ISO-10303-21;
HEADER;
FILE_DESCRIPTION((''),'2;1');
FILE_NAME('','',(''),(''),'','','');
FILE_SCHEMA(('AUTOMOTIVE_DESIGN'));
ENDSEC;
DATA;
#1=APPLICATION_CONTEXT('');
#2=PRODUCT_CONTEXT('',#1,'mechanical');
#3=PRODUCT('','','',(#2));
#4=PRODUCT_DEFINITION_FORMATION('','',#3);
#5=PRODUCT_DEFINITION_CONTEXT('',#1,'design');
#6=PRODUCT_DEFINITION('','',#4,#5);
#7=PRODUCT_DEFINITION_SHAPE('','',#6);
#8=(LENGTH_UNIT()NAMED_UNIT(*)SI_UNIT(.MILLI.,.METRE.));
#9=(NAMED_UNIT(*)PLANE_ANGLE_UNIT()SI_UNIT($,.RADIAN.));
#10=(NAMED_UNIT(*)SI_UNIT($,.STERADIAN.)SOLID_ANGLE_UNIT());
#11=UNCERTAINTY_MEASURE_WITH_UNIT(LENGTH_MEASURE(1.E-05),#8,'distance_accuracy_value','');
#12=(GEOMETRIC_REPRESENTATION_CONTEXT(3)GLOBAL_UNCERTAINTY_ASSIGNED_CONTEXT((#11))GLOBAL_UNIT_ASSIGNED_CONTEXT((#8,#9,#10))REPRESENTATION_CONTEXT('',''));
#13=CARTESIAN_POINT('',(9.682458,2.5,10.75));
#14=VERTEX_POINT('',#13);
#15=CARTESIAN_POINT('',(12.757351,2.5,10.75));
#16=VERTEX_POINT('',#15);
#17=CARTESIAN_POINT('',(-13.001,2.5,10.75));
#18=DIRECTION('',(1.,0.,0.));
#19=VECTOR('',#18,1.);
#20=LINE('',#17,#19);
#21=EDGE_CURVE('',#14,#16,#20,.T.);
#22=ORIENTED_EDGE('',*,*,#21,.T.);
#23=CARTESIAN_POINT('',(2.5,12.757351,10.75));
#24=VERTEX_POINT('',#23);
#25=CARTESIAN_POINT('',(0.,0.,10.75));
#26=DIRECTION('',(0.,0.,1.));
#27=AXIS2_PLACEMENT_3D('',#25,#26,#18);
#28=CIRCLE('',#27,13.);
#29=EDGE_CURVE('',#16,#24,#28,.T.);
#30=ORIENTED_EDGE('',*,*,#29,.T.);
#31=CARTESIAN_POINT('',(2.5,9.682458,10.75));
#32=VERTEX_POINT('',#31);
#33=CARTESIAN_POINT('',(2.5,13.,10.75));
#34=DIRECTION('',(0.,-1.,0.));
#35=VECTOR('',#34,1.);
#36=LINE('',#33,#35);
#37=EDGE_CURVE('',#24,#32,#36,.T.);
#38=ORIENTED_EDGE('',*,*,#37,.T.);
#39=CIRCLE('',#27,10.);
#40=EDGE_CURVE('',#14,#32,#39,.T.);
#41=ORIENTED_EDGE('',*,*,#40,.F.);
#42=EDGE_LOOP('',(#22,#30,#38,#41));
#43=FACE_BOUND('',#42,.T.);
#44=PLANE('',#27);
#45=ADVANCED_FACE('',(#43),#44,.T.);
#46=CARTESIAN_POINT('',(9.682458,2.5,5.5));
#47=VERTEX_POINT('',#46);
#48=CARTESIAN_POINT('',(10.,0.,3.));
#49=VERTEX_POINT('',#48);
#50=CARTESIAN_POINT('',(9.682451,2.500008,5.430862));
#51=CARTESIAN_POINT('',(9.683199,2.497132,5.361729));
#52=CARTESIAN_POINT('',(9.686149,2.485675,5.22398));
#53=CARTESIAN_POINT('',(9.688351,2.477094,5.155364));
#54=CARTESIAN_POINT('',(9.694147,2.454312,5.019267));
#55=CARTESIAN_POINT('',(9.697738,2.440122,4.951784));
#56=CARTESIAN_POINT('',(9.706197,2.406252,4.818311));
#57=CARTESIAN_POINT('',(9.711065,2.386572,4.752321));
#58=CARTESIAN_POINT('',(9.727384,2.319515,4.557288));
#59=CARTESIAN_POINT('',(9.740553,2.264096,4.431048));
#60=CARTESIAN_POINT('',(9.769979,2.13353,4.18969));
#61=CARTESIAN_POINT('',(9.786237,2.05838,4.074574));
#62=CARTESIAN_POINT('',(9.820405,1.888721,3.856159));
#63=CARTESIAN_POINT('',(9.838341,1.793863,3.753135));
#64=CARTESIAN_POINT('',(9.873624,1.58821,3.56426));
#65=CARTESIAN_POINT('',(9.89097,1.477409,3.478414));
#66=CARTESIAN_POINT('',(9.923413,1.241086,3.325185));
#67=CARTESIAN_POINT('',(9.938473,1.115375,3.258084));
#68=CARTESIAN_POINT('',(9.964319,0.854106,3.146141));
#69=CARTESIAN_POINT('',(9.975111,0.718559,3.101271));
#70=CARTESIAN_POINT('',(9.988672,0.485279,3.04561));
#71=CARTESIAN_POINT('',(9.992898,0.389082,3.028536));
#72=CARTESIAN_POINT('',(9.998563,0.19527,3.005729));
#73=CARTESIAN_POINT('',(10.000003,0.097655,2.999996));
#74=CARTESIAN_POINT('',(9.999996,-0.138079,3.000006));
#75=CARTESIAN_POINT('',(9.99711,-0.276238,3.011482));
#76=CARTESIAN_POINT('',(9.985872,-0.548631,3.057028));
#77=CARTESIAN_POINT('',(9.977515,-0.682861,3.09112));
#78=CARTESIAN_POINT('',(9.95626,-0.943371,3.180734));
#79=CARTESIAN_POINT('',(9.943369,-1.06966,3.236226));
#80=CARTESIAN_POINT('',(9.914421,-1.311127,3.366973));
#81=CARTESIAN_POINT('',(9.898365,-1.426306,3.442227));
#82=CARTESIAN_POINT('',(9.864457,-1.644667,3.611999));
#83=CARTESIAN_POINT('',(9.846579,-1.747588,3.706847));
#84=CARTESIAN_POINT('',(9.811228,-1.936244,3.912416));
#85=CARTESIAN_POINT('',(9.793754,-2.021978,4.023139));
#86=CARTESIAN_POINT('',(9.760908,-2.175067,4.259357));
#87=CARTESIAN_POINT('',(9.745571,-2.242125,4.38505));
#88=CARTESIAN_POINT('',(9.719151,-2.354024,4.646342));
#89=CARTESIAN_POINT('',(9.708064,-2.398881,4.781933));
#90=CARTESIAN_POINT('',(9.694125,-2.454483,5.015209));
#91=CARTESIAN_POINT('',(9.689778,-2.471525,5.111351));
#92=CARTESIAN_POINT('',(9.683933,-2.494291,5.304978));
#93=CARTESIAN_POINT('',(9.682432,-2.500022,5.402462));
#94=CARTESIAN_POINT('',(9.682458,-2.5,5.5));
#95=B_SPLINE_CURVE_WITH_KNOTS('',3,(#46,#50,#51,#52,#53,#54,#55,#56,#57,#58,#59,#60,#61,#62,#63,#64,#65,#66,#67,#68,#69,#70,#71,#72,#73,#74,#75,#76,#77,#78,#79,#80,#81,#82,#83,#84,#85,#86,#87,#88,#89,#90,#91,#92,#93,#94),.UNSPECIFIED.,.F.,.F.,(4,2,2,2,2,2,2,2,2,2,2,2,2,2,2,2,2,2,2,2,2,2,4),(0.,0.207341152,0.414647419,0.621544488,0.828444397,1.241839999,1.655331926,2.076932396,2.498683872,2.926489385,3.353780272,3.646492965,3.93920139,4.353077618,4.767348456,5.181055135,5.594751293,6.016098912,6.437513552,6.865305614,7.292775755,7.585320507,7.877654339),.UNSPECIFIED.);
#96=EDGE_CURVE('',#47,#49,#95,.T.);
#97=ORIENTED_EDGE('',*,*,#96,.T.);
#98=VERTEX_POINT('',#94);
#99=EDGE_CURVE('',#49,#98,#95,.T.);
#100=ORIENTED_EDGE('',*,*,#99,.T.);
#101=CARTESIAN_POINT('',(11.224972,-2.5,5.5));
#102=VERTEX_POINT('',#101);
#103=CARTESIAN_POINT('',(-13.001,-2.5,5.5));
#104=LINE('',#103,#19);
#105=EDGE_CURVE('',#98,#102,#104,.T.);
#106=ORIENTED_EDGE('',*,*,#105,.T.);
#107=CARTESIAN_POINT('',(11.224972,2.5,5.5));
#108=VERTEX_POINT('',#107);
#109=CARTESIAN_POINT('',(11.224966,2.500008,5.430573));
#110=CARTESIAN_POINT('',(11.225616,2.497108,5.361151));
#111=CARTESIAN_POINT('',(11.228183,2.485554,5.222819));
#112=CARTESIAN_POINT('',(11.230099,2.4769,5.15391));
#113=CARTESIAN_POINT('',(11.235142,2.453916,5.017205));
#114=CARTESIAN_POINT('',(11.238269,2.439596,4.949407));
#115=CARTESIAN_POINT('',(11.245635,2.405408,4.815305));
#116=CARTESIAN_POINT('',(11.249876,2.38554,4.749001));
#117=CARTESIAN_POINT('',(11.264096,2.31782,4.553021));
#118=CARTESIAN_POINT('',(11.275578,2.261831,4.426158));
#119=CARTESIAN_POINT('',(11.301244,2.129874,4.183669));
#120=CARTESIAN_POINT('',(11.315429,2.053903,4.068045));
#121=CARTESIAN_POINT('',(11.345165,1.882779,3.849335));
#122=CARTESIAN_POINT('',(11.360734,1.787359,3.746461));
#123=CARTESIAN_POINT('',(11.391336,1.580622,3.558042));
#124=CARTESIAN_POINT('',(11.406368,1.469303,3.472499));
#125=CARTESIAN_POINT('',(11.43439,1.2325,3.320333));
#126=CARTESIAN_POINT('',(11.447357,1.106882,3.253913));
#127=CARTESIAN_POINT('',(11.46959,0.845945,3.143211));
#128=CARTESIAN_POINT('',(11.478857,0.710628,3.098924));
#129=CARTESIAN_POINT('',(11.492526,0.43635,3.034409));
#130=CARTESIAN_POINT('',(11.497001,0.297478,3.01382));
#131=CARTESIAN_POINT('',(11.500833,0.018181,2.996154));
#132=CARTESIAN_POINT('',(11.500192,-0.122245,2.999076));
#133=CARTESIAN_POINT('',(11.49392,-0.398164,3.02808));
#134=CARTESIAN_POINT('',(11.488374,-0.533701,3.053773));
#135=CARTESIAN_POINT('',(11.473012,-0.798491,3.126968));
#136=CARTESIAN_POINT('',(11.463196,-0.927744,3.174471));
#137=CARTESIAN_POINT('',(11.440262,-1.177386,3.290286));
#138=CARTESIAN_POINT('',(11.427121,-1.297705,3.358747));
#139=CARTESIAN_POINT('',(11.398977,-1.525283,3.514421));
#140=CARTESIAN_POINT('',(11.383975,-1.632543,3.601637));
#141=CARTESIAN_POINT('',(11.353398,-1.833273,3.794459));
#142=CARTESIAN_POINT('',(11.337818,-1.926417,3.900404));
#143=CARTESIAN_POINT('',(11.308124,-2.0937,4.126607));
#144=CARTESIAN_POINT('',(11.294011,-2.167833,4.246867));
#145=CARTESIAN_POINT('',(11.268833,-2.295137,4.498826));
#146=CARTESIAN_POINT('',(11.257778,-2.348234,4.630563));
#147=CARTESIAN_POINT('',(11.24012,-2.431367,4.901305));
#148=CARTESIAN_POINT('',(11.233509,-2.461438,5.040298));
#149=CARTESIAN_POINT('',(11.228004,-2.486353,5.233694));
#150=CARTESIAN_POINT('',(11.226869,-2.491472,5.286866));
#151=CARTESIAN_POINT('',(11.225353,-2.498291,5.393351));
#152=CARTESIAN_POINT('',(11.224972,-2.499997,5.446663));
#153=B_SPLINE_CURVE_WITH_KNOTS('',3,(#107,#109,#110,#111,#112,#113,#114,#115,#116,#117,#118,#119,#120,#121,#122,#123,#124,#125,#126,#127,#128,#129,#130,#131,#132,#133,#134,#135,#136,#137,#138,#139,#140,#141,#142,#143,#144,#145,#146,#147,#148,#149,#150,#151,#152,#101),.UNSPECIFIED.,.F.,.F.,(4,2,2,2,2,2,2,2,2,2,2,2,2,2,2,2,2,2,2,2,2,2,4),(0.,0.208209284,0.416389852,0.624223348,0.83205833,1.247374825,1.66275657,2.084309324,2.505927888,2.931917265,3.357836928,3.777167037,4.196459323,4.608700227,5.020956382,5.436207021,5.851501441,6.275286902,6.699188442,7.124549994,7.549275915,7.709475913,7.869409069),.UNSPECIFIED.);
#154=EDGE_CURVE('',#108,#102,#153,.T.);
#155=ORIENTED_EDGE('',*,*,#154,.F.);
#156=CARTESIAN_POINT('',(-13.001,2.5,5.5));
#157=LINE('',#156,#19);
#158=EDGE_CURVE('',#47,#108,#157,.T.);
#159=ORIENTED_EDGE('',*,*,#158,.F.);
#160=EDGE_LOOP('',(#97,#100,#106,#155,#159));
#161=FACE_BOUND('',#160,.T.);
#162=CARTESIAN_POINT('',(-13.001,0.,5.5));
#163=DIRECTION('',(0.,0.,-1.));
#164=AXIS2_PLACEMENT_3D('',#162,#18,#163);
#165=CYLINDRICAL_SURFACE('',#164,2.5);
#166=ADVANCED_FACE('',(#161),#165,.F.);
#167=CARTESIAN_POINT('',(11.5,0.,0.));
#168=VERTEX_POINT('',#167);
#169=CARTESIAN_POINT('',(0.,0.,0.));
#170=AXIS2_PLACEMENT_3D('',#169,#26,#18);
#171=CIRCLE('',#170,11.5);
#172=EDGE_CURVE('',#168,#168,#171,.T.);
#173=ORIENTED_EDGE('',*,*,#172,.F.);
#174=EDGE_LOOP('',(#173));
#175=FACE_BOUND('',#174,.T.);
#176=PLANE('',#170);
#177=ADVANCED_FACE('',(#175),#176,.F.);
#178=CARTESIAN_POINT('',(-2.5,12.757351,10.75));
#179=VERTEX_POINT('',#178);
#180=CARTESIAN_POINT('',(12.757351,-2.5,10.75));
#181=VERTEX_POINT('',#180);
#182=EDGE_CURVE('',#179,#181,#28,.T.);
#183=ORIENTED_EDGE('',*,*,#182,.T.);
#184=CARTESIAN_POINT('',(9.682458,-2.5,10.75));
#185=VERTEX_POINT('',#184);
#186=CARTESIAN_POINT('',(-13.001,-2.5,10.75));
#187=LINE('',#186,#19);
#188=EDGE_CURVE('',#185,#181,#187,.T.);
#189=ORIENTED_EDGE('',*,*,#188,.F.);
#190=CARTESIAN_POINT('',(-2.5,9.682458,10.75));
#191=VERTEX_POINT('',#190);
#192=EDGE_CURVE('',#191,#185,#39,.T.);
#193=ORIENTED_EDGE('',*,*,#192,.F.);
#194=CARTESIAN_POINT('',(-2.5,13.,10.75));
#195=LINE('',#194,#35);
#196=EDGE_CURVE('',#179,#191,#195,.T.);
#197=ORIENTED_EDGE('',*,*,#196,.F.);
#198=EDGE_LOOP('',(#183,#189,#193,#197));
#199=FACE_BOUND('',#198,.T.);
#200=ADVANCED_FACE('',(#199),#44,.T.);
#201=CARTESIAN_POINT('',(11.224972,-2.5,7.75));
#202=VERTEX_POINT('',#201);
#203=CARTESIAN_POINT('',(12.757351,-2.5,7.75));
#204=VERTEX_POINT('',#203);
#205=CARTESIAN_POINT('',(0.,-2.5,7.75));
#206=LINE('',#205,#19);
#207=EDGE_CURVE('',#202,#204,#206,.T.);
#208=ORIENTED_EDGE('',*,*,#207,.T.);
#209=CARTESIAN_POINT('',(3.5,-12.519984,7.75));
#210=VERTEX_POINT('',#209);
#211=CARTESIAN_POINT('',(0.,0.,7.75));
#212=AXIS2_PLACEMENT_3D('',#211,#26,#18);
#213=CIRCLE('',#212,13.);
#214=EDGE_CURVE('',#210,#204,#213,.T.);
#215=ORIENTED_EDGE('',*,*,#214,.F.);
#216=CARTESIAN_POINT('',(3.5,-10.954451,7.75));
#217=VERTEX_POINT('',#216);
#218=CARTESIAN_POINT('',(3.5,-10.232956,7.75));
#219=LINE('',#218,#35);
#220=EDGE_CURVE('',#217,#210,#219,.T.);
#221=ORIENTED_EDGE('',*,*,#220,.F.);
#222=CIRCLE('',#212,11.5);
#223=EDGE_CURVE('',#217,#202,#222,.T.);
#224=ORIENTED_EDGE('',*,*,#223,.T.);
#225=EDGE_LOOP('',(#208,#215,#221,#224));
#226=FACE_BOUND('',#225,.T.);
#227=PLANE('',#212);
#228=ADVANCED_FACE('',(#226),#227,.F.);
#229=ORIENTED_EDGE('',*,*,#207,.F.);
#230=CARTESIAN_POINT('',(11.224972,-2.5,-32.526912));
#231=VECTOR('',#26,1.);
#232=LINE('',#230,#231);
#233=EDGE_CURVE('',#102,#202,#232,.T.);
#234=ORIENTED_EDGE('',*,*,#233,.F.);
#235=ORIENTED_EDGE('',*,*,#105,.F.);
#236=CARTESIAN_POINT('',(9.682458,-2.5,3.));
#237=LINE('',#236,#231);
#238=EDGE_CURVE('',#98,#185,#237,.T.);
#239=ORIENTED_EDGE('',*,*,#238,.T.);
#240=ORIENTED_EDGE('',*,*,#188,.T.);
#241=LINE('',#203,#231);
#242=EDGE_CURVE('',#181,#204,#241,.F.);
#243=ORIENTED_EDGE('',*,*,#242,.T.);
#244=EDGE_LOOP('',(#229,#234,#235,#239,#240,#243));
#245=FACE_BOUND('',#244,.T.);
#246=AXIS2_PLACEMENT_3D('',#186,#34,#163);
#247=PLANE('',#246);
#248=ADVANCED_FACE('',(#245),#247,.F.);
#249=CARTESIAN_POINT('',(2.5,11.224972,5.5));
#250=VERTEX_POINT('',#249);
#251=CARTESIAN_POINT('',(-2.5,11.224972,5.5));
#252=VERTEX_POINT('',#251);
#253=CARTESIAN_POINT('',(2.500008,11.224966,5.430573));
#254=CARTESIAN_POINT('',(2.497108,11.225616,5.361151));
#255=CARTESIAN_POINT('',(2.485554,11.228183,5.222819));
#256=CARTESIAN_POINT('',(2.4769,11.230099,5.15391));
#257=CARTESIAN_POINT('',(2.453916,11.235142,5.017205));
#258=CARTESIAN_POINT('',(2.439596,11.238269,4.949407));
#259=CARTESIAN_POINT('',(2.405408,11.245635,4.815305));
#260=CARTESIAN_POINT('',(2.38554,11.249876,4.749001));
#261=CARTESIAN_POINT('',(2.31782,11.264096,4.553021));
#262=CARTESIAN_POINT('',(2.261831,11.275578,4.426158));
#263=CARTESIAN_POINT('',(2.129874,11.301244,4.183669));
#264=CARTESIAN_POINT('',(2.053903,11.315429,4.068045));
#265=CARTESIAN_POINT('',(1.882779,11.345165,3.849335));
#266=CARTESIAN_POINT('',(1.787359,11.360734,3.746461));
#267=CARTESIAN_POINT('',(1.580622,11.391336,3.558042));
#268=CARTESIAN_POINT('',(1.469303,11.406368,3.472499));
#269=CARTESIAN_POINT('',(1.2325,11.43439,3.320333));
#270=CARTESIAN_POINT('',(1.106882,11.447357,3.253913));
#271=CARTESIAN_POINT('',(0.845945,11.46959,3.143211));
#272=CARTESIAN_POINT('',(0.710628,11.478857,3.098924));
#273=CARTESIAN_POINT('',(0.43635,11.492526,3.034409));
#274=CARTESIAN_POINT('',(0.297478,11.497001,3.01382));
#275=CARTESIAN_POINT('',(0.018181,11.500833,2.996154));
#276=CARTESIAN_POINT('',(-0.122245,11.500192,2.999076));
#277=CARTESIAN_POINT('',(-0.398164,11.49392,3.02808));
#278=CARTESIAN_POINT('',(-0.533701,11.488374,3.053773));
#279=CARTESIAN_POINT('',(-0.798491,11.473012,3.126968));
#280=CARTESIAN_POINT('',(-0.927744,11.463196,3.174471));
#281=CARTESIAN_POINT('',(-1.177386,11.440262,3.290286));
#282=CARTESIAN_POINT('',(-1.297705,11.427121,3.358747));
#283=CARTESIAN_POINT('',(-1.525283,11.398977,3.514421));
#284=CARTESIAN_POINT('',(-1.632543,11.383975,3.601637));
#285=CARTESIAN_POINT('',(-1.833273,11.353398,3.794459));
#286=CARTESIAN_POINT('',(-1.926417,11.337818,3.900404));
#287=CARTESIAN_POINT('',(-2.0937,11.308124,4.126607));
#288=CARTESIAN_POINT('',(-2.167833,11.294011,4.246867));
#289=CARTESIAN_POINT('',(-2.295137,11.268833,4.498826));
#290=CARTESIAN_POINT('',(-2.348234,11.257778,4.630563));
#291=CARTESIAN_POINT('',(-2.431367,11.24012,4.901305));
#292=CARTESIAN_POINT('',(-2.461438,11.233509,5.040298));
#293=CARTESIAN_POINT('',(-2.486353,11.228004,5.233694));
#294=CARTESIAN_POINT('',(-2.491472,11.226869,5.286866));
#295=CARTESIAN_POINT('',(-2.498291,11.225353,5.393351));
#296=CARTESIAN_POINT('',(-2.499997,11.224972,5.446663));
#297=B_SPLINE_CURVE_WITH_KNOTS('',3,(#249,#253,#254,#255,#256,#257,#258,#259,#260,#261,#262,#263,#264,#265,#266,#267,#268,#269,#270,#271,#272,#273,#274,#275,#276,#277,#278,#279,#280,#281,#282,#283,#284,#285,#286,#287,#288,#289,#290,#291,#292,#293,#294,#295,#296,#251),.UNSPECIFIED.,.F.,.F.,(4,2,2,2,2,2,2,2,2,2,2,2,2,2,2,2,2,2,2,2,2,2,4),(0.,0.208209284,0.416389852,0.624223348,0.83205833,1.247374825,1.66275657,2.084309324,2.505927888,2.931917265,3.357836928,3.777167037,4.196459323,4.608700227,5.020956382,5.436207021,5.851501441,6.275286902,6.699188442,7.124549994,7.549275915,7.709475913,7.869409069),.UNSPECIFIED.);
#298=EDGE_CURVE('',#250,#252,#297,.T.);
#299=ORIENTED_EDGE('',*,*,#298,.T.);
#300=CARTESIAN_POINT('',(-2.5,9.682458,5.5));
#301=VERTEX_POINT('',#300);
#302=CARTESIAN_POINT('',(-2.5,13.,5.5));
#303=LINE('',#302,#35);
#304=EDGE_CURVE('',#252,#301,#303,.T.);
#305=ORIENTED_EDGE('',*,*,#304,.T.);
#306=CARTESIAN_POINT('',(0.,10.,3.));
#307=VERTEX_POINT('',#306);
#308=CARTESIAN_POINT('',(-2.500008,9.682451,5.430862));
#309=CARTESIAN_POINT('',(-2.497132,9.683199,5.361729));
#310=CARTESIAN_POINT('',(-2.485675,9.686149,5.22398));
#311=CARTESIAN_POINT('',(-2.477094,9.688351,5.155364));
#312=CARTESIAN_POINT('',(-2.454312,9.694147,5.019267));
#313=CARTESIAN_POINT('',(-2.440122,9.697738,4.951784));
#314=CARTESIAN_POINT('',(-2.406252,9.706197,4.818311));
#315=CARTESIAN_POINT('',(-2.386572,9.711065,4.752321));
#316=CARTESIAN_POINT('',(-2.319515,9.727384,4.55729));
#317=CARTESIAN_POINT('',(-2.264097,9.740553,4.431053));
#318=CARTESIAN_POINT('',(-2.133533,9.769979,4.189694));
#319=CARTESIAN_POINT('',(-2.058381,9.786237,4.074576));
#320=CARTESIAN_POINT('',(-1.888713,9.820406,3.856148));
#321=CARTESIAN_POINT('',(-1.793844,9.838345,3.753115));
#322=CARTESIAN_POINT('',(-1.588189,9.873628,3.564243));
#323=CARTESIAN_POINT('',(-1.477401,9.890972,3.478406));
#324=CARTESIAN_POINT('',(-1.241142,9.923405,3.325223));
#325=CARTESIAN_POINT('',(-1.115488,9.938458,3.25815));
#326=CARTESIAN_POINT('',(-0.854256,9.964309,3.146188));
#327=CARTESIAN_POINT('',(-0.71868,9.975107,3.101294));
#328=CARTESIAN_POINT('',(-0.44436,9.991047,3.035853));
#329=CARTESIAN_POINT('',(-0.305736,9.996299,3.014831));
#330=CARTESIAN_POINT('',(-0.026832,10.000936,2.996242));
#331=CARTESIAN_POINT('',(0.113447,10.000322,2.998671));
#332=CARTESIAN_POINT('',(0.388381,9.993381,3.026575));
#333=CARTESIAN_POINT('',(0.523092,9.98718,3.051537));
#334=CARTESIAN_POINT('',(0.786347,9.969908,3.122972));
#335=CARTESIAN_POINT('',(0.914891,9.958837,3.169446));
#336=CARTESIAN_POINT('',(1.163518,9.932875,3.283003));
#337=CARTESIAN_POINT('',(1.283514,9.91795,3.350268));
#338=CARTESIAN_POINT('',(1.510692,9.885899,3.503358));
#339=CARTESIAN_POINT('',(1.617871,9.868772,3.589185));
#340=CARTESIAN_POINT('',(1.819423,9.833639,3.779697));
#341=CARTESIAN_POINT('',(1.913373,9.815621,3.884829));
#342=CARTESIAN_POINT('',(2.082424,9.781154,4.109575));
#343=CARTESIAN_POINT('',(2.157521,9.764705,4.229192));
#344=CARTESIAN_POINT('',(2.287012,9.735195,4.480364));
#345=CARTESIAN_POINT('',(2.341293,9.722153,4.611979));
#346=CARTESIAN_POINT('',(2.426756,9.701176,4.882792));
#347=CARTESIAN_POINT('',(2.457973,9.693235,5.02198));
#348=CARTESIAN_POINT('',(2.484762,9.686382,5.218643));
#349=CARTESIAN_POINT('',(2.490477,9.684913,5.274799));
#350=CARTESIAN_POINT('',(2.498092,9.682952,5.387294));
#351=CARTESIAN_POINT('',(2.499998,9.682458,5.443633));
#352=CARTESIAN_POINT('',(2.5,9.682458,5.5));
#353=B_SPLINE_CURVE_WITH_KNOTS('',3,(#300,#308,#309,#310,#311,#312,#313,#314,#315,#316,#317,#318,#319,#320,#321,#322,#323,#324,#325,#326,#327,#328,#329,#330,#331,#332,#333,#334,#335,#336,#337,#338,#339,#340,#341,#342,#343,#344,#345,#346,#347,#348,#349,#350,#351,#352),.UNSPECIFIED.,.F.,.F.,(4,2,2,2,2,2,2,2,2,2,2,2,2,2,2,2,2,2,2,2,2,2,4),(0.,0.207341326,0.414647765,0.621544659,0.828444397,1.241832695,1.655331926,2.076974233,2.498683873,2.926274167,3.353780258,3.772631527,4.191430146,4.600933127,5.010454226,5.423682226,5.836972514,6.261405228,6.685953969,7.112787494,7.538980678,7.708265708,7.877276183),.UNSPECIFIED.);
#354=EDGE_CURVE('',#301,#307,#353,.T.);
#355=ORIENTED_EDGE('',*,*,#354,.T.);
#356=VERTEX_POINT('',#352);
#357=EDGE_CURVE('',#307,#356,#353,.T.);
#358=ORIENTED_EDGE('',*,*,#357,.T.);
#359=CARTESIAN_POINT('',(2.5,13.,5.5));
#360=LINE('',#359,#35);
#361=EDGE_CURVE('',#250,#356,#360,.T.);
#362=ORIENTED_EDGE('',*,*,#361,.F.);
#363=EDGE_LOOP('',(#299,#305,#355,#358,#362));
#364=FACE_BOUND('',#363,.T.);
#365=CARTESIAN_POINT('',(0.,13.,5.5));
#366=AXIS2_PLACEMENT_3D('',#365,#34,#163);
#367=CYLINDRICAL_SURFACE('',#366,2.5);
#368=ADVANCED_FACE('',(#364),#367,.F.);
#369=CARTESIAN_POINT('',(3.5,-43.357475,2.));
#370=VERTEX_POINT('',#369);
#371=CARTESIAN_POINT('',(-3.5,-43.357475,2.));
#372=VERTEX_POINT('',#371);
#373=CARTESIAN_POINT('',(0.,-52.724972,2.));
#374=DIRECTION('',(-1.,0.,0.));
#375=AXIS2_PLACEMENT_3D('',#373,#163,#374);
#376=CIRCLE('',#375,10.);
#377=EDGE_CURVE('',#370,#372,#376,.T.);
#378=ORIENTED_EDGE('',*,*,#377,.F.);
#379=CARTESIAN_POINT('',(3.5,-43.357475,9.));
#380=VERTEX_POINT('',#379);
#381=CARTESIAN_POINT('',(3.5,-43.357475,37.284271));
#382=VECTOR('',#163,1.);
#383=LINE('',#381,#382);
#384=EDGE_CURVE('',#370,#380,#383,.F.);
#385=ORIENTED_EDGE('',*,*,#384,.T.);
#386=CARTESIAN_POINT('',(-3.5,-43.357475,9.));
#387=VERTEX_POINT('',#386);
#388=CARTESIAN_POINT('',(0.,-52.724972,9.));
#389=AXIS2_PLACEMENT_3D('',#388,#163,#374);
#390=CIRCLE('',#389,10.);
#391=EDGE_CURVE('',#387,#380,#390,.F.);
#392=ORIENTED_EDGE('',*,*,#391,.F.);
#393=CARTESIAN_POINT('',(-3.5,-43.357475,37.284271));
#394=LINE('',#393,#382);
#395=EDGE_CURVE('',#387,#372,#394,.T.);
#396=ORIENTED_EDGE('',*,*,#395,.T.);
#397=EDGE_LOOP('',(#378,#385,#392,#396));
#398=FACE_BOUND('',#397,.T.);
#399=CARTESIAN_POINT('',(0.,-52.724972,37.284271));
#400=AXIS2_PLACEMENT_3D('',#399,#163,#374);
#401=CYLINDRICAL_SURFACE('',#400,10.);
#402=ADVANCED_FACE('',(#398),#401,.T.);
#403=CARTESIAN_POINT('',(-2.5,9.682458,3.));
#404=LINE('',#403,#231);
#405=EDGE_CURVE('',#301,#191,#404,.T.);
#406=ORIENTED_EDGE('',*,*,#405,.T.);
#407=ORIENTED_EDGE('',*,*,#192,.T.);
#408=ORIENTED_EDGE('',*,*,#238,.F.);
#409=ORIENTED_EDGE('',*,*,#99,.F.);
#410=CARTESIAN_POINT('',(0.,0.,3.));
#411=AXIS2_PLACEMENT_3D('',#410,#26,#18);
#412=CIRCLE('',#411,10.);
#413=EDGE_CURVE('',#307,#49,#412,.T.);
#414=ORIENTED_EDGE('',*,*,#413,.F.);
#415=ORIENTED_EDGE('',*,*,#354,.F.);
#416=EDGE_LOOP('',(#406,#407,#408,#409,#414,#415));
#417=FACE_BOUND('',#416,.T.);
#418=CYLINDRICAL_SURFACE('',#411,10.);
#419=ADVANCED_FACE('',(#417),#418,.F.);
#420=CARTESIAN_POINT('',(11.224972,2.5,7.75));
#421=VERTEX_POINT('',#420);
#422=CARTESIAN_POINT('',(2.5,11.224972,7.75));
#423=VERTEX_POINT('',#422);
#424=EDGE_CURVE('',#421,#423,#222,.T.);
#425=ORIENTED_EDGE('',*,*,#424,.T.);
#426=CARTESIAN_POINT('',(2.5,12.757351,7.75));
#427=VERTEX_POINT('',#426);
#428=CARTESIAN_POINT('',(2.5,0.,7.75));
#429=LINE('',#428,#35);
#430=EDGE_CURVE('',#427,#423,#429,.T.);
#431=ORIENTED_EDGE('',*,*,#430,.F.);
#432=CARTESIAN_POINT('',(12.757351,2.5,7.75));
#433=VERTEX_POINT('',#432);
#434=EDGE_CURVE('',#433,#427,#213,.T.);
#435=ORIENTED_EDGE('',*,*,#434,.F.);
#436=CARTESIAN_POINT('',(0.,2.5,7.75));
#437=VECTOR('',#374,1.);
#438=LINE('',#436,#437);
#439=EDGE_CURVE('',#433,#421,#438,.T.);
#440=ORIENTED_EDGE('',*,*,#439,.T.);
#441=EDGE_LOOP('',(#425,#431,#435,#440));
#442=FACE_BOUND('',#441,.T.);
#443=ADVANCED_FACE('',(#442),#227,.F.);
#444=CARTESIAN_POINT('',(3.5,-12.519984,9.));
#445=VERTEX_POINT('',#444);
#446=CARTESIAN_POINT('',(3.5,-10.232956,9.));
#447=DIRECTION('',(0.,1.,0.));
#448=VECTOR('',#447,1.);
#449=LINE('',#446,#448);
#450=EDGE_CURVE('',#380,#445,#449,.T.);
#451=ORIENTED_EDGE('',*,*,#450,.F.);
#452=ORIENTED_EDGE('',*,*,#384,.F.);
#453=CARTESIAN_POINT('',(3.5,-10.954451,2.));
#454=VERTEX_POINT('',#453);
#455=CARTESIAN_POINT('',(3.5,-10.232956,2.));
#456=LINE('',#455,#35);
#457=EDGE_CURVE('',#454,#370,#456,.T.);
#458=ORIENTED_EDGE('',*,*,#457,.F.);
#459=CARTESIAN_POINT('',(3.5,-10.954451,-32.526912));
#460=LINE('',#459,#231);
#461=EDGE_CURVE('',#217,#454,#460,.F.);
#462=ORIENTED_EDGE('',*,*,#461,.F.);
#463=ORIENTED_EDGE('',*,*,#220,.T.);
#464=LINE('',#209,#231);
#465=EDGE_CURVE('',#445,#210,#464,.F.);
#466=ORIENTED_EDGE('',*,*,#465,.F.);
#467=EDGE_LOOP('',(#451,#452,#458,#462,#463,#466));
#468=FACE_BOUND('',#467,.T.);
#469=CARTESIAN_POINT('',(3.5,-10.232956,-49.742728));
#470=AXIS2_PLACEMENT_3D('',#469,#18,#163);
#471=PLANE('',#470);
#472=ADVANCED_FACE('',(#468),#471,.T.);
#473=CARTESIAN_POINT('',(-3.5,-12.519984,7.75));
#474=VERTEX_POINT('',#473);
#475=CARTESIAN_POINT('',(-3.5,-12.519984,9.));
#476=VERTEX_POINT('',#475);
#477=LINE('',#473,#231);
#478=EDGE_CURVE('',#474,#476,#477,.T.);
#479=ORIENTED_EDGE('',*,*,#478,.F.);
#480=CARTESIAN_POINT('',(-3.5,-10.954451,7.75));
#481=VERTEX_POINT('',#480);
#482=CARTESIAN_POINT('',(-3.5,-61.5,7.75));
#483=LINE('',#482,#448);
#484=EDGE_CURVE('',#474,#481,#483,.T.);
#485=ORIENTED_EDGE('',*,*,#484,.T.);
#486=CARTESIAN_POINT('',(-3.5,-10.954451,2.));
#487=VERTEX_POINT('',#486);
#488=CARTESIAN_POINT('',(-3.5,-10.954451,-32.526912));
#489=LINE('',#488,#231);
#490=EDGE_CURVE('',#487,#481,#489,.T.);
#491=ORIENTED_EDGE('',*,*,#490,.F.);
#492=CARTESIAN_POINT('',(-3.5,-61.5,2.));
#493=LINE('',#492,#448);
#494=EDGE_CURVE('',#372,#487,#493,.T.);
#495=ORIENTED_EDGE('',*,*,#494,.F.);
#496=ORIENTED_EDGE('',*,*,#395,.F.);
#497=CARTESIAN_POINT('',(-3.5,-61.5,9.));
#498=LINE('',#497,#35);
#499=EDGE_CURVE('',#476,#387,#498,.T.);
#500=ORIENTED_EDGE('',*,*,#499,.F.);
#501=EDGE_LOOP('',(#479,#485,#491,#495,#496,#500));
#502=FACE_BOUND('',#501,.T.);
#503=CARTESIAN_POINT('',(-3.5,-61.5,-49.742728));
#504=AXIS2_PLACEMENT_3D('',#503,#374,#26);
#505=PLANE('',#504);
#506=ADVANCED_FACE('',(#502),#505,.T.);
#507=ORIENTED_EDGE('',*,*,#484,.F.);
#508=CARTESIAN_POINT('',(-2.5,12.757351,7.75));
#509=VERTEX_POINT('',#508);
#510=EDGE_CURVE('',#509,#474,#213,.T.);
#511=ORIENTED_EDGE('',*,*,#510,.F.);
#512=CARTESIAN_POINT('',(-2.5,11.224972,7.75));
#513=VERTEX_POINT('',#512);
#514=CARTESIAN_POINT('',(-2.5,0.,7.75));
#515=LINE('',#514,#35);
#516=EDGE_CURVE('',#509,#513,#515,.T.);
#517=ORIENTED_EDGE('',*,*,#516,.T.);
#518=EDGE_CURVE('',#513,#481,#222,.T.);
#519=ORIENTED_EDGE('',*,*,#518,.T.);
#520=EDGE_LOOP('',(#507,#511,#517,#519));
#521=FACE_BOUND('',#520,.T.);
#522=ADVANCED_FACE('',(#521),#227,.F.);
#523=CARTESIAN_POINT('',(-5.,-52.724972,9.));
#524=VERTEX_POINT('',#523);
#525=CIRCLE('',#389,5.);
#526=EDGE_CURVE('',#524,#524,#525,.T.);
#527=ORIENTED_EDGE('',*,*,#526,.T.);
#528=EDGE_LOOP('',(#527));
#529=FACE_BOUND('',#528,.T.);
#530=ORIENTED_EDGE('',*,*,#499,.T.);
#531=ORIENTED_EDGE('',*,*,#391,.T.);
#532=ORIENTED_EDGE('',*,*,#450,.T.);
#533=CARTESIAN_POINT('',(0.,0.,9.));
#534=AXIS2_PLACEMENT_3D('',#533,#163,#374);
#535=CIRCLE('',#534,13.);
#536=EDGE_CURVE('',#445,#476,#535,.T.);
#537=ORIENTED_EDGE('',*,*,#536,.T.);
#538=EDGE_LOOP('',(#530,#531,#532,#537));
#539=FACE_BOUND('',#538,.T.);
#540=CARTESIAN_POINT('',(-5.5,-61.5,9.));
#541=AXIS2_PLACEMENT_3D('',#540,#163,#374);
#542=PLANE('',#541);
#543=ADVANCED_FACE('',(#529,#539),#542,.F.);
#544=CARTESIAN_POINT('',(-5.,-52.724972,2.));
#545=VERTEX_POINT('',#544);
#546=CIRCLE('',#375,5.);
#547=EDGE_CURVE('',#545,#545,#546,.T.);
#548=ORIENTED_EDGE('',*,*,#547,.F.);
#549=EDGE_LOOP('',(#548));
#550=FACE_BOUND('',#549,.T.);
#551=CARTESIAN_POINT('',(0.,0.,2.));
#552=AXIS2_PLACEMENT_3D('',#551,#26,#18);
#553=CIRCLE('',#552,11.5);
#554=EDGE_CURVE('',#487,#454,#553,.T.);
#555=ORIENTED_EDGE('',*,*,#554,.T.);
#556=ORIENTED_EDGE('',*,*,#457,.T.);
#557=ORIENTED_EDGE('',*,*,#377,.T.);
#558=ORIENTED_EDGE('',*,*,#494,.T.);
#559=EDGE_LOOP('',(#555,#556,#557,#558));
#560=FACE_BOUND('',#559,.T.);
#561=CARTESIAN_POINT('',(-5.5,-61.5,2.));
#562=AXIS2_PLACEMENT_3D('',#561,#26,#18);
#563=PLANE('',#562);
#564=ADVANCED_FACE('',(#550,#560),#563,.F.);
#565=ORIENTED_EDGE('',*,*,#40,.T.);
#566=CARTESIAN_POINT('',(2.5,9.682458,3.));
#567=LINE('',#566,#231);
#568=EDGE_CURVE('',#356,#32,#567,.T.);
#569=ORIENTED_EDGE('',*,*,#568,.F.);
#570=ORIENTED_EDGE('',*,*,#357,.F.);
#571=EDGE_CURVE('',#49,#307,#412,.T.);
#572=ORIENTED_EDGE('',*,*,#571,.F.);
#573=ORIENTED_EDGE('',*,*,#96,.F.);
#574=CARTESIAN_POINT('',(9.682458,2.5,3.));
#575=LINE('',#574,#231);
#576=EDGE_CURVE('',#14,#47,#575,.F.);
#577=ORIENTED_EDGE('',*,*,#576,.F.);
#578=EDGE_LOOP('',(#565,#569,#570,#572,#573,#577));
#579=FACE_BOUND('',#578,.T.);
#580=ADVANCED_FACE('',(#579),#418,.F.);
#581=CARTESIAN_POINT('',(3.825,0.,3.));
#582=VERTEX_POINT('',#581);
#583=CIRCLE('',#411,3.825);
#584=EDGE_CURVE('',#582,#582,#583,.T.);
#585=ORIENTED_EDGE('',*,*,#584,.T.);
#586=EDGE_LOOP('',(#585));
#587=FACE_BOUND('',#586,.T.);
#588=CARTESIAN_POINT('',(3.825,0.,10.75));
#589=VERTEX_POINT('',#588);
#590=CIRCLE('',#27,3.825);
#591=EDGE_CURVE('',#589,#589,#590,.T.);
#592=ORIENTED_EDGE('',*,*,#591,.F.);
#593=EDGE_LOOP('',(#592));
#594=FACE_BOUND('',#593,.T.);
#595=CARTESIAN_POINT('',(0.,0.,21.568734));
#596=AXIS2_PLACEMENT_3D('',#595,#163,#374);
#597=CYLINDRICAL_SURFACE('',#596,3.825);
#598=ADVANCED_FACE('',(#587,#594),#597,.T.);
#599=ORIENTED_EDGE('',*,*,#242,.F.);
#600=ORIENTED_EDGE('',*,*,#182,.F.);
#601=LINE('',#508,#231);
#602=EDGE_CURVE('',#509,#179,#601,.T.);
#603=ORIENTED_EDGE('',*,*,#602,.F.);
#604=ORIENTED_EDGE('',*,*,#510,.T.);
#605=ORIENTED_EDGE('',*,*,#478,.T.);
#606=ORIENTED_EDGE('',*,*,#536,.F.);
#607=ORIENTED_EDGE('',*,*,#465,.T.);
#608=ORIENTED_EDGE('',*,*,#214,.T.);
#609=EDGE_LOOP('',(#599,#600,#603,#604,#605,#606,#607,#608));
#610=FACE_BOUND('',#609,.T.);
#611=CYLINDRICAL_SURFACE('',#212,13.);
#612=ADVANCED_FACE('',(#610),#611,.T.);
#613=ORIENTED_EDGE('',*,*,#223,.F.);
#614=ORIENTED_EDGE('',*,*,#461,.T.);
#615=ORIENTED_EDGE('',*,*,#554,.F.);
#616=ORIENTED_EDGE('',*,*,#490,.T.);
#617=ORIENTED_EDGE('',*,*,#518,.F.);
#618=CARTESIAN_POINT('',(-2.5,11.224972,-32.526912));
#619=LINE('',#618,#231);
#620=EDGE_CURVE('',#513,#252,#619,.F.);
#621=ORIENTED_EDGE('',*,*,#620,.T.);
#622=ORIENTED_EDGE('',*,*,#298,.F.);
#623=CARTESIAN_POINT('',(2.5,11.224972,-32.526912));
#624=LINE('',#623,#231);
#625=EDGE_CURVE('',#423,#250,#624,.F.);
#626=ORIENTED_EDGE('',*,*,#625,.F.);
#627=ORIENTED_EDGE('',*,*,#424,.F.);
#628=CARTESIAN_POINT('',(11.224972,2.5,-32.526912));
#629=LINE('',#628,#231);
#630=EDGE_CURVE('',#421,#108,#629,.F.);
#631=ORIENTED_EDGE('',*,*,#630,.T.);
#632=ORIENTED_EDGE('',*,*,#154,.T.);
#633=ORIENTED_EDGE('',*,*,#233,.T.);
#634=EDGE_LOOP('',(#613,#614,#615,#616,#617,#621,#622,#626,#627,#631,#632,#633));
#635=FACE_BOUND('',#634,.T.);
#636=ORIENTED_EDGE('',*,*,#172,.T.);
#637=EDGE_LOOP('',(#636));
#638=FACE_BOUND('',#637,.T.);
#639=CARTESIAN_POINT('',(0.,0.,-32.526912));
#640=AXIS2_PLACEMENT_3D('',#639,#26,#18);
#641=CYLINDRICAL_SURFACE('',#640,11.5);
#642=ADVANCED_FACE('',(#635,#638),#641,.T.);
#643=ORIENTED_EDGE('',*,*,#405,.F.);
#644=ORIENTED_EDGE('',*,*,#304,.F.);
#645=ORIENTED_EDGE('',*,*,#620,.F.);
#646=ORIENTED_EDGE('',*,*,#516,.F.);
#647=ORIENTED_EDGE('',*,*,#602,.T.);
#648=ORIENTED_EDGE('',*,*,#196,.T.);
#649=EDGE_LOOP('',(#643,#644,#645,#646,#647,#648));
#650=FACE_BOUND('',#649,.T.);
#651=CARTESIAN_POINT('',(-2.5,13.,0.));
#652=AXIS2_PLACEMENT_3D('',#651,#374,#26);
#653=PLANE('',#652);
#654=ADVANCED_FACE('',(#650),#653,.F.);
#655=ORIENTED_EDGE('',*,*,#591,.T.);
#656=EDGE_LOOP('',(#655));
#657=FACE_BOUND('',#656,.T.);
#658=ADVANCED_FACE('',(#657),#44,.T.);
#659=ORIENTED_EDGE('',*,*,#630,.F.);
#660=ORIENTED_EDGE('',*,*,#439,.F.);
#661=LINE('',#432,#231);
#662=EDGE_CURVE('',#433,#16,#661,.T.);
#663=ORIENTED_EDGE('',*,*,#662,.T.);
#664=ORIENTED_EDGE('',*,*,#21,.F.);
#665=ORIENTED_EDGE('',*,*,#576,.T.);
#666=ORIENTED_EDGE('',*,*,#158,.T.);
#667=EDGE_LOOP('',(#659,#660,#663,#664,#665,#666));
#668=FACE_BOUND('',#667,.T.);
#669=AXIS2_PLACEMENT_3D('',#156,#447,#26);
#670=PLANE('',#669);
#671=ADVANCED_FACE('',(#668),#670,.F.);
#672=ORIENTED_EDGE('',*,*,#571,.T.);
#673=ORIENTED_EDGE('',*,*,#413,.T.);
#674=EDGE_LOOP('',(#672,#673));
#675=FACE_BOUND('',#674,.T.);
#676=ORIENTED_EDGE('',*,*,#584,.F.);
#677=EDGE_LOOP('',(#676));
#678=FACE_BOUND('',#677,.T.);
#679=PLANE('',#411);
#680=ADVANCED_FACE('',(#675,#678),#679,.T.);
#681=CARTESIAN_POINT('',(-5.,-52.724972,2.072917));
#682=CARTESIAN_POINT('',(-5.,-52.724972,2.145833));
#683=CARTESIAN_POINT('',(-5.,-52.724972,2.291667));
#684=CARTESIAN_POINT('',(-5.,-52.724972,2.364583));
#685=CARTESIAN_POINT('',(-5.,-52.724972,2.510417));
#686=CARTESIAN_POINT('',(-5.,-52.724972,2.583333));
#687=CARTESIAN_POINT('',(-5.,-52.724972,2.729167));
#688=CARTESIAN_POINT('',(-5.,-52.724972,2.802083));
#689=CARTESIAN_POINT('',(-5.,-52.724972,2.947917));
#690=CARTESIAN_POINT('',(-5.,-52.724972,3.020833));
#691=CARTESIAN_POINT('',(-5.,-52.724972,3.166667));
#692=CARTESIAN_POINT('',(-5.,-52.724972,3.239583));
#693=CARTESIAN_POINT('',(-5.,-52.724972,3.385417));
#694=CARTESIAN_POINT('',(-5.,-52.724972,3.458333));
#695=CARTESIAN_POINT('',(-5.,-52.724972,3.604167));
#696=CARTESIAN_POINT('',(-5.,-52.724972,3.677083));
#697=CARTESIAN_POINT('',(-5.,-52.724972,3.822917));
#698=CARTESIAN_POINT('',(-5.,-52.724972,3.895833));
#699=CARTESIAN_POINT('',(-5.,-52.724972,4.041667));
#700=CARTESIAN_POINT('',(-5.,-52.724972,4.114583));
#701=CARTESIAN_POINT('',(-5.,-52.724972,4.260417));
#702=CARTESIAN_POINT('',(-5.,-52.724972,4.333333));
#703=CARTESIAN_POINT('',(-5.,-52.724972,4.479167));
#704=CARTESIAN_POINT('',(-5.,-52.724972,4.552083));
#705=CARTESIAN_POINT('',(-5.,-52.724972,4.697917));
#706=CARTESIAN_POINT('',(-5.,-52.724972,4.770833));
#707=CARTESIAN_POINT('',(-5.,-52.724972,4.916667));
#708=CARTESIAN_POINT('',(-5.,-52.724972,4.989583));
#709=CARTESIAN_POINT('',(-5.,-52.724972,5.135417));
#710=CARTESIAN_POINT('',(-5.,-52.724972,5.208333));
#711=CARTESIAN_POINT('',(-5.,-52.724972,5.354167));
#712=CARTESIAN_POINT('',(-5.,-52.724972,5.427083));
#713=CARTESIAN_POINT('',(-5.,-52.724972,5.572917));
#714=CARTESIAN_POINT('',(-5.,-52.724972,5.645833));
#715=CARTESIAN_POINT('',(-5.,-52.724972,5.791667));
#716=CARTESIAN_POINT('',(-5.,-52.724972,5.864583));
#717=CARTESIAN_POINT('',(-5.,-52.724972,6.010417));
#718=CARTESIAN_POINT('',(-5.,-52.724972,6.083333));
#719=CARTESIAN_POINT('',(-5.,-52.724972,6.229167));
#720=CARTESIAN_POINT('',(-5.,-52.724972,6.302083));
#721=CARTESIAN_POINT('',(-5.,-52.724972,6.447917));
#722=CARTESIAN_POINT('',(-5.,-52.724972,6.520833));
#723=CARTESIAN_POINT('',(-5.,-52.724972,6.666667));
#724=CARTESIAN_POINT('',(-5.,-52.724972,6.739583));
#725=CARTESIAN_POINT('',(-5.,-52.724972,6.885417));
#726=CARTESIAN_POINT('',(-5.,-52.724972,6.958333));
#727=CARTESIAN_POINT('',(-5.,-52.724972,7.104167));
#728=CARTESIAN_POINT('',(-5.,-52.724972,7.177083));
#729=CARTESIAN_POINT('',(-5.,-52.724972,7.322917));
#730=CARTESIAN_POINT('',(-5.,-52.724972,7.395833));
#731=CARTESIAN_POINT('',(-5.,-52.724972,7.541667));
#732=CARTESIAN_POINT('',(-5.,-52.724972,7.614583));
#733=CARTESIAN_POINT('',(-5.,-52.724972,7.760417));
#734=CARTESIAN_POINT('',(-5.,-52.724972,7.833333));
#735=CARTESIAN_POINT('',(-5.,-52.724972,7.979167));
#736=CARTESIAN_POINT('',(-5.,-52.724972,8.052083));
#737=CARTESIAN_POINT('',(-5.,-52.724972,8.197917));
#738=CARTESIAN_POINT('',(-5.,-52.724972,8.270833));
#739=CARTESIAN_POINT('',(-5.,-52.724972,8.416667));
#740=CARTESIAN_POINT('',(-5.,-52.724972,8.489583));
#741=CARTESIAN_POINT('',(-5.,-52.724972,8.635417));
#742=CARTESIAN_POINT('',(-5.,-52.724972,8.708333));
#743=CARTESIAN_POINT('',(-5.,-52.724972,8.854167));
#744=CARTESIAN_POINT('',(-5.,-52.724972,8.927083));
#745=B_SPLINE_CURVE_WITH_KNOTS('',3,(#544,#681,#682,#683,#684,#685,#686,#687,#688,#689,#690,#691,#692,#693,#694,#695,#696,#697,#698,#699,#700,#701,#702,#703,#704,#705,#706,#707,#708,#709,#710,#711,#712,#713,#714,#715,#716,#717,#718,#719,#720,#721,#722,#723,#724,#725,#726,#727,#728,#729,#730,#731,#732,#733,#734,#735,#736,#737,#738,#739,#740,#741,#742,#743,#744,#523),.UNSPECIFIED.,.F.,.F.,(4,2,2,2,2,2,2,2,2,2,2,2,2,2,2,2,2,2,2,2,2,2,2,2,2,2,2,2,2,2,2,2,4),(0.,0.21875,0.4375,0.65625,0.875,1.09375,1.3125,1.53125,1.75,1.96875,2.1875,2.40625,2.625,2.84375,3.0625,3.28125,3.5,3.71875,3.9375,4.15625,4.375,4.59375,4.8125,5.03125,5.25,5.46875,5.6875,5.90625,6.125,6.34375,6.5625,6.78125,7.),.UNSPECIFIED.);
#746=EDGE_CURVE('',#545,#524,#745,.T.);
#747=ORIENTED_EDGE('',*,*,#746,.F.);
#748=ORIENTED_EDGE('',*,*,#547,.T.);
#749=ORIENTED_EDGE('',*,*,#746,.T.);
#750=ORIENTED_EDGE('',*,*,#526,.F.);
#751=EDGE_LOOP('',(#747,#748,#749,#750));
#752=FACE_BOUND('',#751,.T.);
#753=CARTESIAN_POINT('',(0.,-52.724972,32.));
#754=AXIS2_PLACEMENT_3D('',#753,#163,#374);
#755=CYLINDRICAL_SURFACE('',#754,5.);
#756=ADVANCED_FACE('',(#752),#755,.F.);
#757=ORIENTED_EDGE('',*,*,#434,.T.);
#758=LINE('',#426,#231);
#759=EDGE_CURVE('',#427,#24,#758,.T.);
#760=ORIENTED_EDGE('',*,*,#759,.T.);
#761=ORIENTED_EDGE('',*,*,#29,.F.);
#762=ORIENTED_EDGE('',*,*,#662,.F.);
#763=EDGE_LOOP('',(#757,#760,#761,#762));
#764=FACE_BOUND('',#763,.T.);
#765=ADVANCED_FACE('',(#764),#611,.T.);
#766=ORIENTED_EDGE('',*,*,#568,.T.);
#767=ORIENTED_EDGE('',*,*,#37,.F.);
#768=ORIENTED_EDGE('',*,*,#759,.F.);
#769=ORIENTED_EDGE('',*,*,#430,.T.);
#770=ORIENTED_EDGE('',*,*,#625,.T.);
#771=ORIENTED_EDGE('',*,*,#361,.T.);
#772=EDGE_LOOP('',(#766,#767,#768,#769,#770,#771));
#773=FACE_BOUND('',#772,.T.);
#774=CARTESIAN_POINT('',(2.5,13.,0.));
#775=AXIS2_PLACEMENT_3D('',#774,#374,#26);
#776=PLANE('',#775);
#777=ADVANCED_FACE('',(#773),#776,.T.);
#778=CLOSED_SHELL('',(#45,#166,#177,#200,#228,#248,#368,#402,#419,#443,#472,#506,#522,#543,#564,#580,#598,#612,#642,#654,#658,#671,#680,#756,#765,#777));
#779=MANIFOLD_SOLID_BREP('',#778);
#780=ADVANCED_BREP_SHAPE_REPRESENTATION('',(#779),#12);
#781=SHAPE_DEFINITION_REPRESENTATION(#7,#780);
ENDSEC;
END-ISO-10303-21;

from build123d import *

# Parameters (mm, degrees)
CROQUIS1_R                  = 10
SALIENTE_EXTRUIR1_DEPTH     = 3
CROQUIS2_R                  = 11.5
CROQUIS2_R_2                = 10
SALIENTE_EXTRUIR3_DEPTH     = 8
SALIENTE_EXTRUIR4_START     = 3
CROQUIS3_R                  = 11.5
CROQUIS3_R_2                = 10
SALIENTE_EXTRUIR4_DEPTH     = 3
CROQUIS12_W                 = 2.5
CROQUIS12_H                 = 0.622045166
SALIENTE_EXTRUIR6_DEPTH     = 3
CROQUIS13_W                 = 5
CROQUIS13_H                 = 50.27502784
SALIENTE_EXTRUIR7_DEPTH     = 8
CROQUIS15_W                 = 2
CROQUIS15_H                 = 50.27502784
CORTAR_EXTRUIR4_DEPTH       = 8
SALIENTE_EXTRUIR8_DEPTH     = 7
CROQUIS21_R                 = 10
SALIENTE_EXTRUIR9_DEPTH     = 7
CROQUIS22_R                 = 5
CORTAR_EXTRUIR5_DEPTH       = 30
CROQUIS23_R                 = 10
SALIENTE_EXTRUIR10_DEPTH    = 1.25
CORTAR_EXTRUIR6_START       = -1.5
CROQUIS24_R                 = 10
CORTAR_EXTRUIR6_DEPTH       = 1.5
SALIENTE_EXTRUIR11_START    = -3
CROQUIS25_R                 = 13
SALIENTE_EXTRUIR11_DEPTH    = 3
CORTAR_EXTRUIR14_START      = -10
CROQUIS30_R                 = 10
CORTAR_EXTRUIR14_DEPTH      = 10
CROQUIS31_R                 = 11.5
CROQUIS31_R_2               = 10
SALIENTE_EXTRUIR12_DEPTH    = 7.75
CROQUIS32_R                 = 10
SALIENTE_EXTRUIR13_DEPTH    = 10.75
CROQUIS34_R                 = 10
CORTAR_EXTRUIR15_DEPTH      = 7.75
CROQUIS36_R                 = 3.825
SALIENTE_EXTRUIR14_DEPTH    = 7.75
CORTAR_EXTRUIR17_DEPTH      = 77.117731129
CORTAR_EXTRUIR17_DEPTH_BACK = 5.5
SALIENTE_EXTRUIR20_DEPTH    = 9.5
CROQUIS42_W                 = 1.65191017
CROQUIS42_H                 = 5
CORTAR_EXTRUIR18_DEPTH      = 0.25
CORTAR_EXTRUIR19_REACH      = 71.382
CORTAR_EXTRUIR20_REACH      = 71.382
CORTAR_EXTRUIR20_END_RADIUS = 10


with BuildPart() as part:
    # Croquis1 → Saliente-Extruir1 (new body)
    with BuildSketch(Plane.XY):
        Circle(CROQUIS1_R)
    extrude(amount=SALIENTE_EXTRUIR1_DEPTH)



with BuildPart() as body_2:
    # Croquis2 → Saliente-Extruir3 (new body)
    with BuildSketch(Plane.XY.offset(3)):
        Circle(CROQUIS2_R)
        Circle(CROQUIS2_R_2, mode=Mode.SUBTRACT)
    extrude(amount=SALIENTE_EXTRUIR3_DEPTH)


with BuildPart() as part_1:
    add(part.part)

    add(body_2.part)  # Saliente-Extruir4 merges body 2
    # Croquis3 → Saliente-Extruir4 (add)
    with BuildSketch(Plane(origin=(0, 0, 3), x_dir=(-1, 0, 0), z_dir=(0, 0, -1)).offset(SALIENTE_EXTRUIR4_START)):
        with Locations(Location((0, 0, 0), (0, 0, 180))):
            Circle(CROQUIS3_R)
        with Locations(Location((0, 0, 0), (0, 0, 180))):
            Circle(CROQUIS3_R_2, mode=Mode.SUBTRACT)
    extrude(amount=-SALIENTE_EXTRUIR4_DEPTH)

    # Croquis12 → Saliente-Extruir6 (add)
    with BuildSketch(Plane.XY.offset(3)):
        with Locations((-1.25, -11.188977417)):
            Rectangle(CROQUIS12_W, CROQUIS12_H)
        with Locations((1.25, -11.188977417)):
            Rectangle(CROQUIS12_W, CROQUIS12_H)
        Polygon((2.5, -11.5), (2.5, -61.5), (-2.5, -61.5), (-2.5, -11.5), (0, -11.5), align=None)
    extrude(amount=-SALIENTE_EXTRUIR6_DEPTH)

    # Croquis13 → Saliente-Extruir7 (add)
    with BuildSketch(Plane.XY.offset(3)):
        with Locations((0, -36.36248608)):
            Rectangle(CROQUIS13_W, CROQUIS13_H)
    extrude(amount=SALIENTE_EXTRUIR7_DEPTH)

    # Croquis15 → Cortar-Extruir4 (cut)
    with BuildSketch(Plane(origin=(2.5, 0, 0), x_dir=(0, 0, -1), z_dir=(1, 0, 0))):
        with Locations((-10, -36.36248608)):
            Rectangle(CROQUIS15_W, CROQUIS15_H)
        with Locations((-1, -36.36248608)):
            Rectangle(CROQUIS15_W, CROQUIS15_H)
    extrude(amount=-CORTAR_EXTRUIR4_DEPTH, mode=Mode.SUBTRACT)

    # Croquis16 → Saliente-Extruir8 (add)
    with BuildSketch(Plane.XY.offset(9)):
        Polygon((-2.5, -61.5), (-3.5, -61.5), (-3.5, -10.232955502), (3.5, -10.232955502), (3.5, -61.5), (2.5, -61.5), align=None)
    extrude(amount=-SALIENTE_EXTRUIR8_DEPTH)

    # Croquis21 → Saliente-Extruir9 (add)
    with BuildSketch(Plane(origin=(0, 0, 2), x_dir=(-1, 0, 0), z_dir=(0, 0, -1))):
        with Locations((0, -52.72497216)):
            Circle(CROQUIS21_R)
    extrude(amount=-SALIENTE_EXTRUIR9_DEPTH)

    # Croquis22 → Cortar-Extruir5 (cut)
    with BuildSketch(Plane(origin=(0, 0, 2), x_dir=(-1, 0, 0), z_dir=(0, 0, -1))):
        with Locations((0, -52.72497216)):
            Circle(CROQUIS22_R)
    extrude(amount=-CORTAR_EXTRUIR5_DEPTH, mode=Mode.SUBTRACT)

    # Croquis23 → Saliente-Extruir10 (add)
    with BuildSketch(Plane.XY.offset(11)):
        with BuildLine():
            Line((-2.5, -11.22497216), (2.5, -11.22497216))
            ThreePointArc((2.5, -11.22497216), (0, 11.5), (-2.5, -11.22497216))
        make_face()
        Circle(CROQUIS23_R, mode=Mode.SUBTRACT)
    extrude(amount=SALIENTE_EXTRUIR10_DEPTH)

    # Croquis24 → Cortar-Extruir6 (cut)
    with BuildSketch(Plane.XY.offset(12.25).offset(CORTAR_EXTRUIR6_START)):
        with BuildLine():
            Line((-2.5, -11.22497216), (2.5, -11.22497216))
            ThreePointArc((2.5, -11.22497216), (0, 11.5), (-2.5, -11.22497216))
        make_face()
        Circle(CROQUIS24_R, mode=Mode.SUBTRACT)
    extrude(amount=CORTAR_EXTRUIR6_DEPTH, mode=Mode.SUBTRACT)

    # Croquis25 → Saliente-Extruir11 (add)
    with BuildSketch(Plane.XY.offset(10.75).offset(SALIENTE_EXTRUIR11_START)):
        Circle(CROQUIS25_R)
        with BuildLine():
            ThreePointArc((2.5, -11.22497216), (0, 11.5), (-2.5, -11.22497216))
            Line((-2.5, -11.22497216), (2.5, -11.22497216))
        make_face(mode=Mode.SUBTRACT)
    extrude(amount=SALIENTE_EXTRUIR11_DEPTH)

    # Croquis30 → Cortar-Extruir14 (cut)
    with BuildSketch(Plane.XY.offset(3).offset(CORTAR_EXTRUIR14_START)):
        Circle(CROQUIS30_R)
    extrude(amount=CORTAR_EXTRUIR14_DEPTH, mode=Mode.SUBTRACT)

    # Croquis31 → Saliente-Extruir12 (add)
    with BuildSketch(Plane(origin=(0, 0, 0), x_dir=(-1, 0, 0), z_dir=(0, 0, -1))):
        with Locations(Location((0, 0, 0), (0, 0, 180))):
            Circle(CROQUIS31_R)
        with Locations(Location((0, 0, 0), (0, 0, 180))):
            Circle(CROQUIS31_R_2, mode=Mode.SUBTRACT)
    extrude(amount=-SALIENTE_EXTRUIR12_DEPTH)

    # Croquis32 → Saliente-Extruir13 (add)
    with BuildSketch(Plane(origin=(0, 0, 0), x_dir=(-1, 0, 0), z_dir=(0, 0, -1))):
        Circle(CROQUIS32_R)
    extrude(amount=-SALIENTE_EXTRUIR13_DEPTH)

    # Croquis34 → Cortar-Extruir15 (cut)
    with BuildSketch(Plane.XY.offset(10.75)):
        Circle(CROQUIS34_R)
    extrude(amount=-CORTAR_EXTRUIR15_DEPTH, mode=Mode.SUBTRACT)

    # Croquis36 → Saliente-Extruir14 (add)
    with BuildSketch(Plane.XY.offset(3)):
        Circle(CROQUIS36_R)
    extrude(amount=SALIENTE_EXTRUIR14_DEPTH)

    # Croquis40 → Cortar-Extruir17 (cut, two sides: drawn at the far end of the back side and taken through both)
    with BuildSketch(Plane(origin=(0, 11.5, 0), x_dir=(1, 0, 0), z_dir=(0, 1, 0)).offset(-CORTAR_EXTRUIR17_DEPTH_BACK)):
        with BuildLine():
            Line((-2.5, -5.5), (-2.5, -10.75))
            Line((-2.5, -10.75), (0, -10.75))
            Line((0, -10.75), (2.5, -10.75))
            Line((2.5, -10.75), (2.5, -5.5))
            ThreePointArc((2.5, -5.5), (0, -3), (-2.5, -5.5))
        make_face()
        with BuildLine():
            Line((0, -10.75), (-2.5, -10.75))
            ThreePointArc((-2.5, -10.75), (0, -13.25), (2.5, -10.75))
            Line((2.5, -10.75), (0, -10.75))
        make_face()
    extrude(amount=CORTAR_EXTRUIR17_DEPTH + CORTAR_EXTRUIR17_DEPTH_BACK, mode=Mode.SUBTRACT)

    # Croquis7 → Saliente-Extruir20 (add)
    with BuildSketch(Plane.XY.offset(11)):
        Polygon((14.638643631, -2.5), (12.986733461, -2.5), (12.986733461, 0), (12.986733461, 2.5), (14.638643631, 2.5), align=None)
    extrude(amount=-SALIENTE_EXTRUIR20_DEPTH)

    # Croquis42 → Cortar-Extruir18 (cut)
    with BuildSketch(Plane.XY.offset(11)):
        with Locations((13.812688546, 0)):
            Rectangle(CROQUIS42_W, CROQUIS42_H)
    extrude(amount=-CORTAR_EXTRUIR18_DEPTH, mode=Mode.SUBTRACT)

    # Croquis43 → Cortar-Extruir19 (cut, up to next)
    with BuildSketch(Plane(origin=(14.638643631, 0, 0), x_dir=(0, 0, -1), z_dir=(1, 0, 0)), mode=Mode.PRIVATE) as cortar_extruir19_sk1:
        with BuildLine():
            Line((-1.5, 2.5), (-5.5, 2.5))
            ThreePointArc((-5.5, 2.5), (-3, 0), (-5.5, -2.5))
            Line((-5.5, -2.5), (-1.5, -2.5))
            Line((-1.5, -2.5), (-1.5, 2.5))
        make_face()
    cortar_extruir19_tool1 = extrude(cortar_extruir19_sk1.sketch, amount=-CORTAR_EXTRUIR19_REACH, mode=Mode.PRIVATE) & part_1.part
    add(cortar_extruir19_tool1.solids().sort_by_distance((14.638644, 0, 2.594695))[0], mode=Mode.SUBTRACT)

    # Cortar-Extruir20: up to this cylinder (the profile starts outside it)
    cortar_extruir20_end = Plane(origin=(0, 0, 7.121671), z_dir=(0, 0, 1)) * Cylinder(CORTAR_EXTRUIR20_END_RADIUS, 163.764, mode=Mode.PRIVATE)
    # Croquis44 → Cortar-Extruir20 (cut, up to the surface)
    with BuildSketch(Plane(origin=(14.638643631, 0, 0), x_dir=(0, 0, -1), z_dir=(1, 0, 0)), mode=Mode.PRIVATE) as cortar_extruir20_sk1:
        with BuildLine():
            Line((-5.5, 2.5), (-10.75, 2.5))
            Line((-10.75, 2.5), (-10.75, -2.5))
            Line((-10.75, -2.5), (-5.5, -2.5))
            ThreePointArc((-5.5, -2.5), (-3, 0), (-5.5, 2.5))
        make_face()
    cortar_extruir20_tool1 = extrude(cortar_extruir20_sk1.sketch, amount=-CORTAR_EXTRUIR20_REACH, mode=Mode.PRIVATE) - cortar_extruir20_end
    add(cortar_extruir20_tool1.solids().sort_by_distance((14.638644, 0, 7.121671))[0], mode=Mode.SUBTRACT)


solid = part_1.part
